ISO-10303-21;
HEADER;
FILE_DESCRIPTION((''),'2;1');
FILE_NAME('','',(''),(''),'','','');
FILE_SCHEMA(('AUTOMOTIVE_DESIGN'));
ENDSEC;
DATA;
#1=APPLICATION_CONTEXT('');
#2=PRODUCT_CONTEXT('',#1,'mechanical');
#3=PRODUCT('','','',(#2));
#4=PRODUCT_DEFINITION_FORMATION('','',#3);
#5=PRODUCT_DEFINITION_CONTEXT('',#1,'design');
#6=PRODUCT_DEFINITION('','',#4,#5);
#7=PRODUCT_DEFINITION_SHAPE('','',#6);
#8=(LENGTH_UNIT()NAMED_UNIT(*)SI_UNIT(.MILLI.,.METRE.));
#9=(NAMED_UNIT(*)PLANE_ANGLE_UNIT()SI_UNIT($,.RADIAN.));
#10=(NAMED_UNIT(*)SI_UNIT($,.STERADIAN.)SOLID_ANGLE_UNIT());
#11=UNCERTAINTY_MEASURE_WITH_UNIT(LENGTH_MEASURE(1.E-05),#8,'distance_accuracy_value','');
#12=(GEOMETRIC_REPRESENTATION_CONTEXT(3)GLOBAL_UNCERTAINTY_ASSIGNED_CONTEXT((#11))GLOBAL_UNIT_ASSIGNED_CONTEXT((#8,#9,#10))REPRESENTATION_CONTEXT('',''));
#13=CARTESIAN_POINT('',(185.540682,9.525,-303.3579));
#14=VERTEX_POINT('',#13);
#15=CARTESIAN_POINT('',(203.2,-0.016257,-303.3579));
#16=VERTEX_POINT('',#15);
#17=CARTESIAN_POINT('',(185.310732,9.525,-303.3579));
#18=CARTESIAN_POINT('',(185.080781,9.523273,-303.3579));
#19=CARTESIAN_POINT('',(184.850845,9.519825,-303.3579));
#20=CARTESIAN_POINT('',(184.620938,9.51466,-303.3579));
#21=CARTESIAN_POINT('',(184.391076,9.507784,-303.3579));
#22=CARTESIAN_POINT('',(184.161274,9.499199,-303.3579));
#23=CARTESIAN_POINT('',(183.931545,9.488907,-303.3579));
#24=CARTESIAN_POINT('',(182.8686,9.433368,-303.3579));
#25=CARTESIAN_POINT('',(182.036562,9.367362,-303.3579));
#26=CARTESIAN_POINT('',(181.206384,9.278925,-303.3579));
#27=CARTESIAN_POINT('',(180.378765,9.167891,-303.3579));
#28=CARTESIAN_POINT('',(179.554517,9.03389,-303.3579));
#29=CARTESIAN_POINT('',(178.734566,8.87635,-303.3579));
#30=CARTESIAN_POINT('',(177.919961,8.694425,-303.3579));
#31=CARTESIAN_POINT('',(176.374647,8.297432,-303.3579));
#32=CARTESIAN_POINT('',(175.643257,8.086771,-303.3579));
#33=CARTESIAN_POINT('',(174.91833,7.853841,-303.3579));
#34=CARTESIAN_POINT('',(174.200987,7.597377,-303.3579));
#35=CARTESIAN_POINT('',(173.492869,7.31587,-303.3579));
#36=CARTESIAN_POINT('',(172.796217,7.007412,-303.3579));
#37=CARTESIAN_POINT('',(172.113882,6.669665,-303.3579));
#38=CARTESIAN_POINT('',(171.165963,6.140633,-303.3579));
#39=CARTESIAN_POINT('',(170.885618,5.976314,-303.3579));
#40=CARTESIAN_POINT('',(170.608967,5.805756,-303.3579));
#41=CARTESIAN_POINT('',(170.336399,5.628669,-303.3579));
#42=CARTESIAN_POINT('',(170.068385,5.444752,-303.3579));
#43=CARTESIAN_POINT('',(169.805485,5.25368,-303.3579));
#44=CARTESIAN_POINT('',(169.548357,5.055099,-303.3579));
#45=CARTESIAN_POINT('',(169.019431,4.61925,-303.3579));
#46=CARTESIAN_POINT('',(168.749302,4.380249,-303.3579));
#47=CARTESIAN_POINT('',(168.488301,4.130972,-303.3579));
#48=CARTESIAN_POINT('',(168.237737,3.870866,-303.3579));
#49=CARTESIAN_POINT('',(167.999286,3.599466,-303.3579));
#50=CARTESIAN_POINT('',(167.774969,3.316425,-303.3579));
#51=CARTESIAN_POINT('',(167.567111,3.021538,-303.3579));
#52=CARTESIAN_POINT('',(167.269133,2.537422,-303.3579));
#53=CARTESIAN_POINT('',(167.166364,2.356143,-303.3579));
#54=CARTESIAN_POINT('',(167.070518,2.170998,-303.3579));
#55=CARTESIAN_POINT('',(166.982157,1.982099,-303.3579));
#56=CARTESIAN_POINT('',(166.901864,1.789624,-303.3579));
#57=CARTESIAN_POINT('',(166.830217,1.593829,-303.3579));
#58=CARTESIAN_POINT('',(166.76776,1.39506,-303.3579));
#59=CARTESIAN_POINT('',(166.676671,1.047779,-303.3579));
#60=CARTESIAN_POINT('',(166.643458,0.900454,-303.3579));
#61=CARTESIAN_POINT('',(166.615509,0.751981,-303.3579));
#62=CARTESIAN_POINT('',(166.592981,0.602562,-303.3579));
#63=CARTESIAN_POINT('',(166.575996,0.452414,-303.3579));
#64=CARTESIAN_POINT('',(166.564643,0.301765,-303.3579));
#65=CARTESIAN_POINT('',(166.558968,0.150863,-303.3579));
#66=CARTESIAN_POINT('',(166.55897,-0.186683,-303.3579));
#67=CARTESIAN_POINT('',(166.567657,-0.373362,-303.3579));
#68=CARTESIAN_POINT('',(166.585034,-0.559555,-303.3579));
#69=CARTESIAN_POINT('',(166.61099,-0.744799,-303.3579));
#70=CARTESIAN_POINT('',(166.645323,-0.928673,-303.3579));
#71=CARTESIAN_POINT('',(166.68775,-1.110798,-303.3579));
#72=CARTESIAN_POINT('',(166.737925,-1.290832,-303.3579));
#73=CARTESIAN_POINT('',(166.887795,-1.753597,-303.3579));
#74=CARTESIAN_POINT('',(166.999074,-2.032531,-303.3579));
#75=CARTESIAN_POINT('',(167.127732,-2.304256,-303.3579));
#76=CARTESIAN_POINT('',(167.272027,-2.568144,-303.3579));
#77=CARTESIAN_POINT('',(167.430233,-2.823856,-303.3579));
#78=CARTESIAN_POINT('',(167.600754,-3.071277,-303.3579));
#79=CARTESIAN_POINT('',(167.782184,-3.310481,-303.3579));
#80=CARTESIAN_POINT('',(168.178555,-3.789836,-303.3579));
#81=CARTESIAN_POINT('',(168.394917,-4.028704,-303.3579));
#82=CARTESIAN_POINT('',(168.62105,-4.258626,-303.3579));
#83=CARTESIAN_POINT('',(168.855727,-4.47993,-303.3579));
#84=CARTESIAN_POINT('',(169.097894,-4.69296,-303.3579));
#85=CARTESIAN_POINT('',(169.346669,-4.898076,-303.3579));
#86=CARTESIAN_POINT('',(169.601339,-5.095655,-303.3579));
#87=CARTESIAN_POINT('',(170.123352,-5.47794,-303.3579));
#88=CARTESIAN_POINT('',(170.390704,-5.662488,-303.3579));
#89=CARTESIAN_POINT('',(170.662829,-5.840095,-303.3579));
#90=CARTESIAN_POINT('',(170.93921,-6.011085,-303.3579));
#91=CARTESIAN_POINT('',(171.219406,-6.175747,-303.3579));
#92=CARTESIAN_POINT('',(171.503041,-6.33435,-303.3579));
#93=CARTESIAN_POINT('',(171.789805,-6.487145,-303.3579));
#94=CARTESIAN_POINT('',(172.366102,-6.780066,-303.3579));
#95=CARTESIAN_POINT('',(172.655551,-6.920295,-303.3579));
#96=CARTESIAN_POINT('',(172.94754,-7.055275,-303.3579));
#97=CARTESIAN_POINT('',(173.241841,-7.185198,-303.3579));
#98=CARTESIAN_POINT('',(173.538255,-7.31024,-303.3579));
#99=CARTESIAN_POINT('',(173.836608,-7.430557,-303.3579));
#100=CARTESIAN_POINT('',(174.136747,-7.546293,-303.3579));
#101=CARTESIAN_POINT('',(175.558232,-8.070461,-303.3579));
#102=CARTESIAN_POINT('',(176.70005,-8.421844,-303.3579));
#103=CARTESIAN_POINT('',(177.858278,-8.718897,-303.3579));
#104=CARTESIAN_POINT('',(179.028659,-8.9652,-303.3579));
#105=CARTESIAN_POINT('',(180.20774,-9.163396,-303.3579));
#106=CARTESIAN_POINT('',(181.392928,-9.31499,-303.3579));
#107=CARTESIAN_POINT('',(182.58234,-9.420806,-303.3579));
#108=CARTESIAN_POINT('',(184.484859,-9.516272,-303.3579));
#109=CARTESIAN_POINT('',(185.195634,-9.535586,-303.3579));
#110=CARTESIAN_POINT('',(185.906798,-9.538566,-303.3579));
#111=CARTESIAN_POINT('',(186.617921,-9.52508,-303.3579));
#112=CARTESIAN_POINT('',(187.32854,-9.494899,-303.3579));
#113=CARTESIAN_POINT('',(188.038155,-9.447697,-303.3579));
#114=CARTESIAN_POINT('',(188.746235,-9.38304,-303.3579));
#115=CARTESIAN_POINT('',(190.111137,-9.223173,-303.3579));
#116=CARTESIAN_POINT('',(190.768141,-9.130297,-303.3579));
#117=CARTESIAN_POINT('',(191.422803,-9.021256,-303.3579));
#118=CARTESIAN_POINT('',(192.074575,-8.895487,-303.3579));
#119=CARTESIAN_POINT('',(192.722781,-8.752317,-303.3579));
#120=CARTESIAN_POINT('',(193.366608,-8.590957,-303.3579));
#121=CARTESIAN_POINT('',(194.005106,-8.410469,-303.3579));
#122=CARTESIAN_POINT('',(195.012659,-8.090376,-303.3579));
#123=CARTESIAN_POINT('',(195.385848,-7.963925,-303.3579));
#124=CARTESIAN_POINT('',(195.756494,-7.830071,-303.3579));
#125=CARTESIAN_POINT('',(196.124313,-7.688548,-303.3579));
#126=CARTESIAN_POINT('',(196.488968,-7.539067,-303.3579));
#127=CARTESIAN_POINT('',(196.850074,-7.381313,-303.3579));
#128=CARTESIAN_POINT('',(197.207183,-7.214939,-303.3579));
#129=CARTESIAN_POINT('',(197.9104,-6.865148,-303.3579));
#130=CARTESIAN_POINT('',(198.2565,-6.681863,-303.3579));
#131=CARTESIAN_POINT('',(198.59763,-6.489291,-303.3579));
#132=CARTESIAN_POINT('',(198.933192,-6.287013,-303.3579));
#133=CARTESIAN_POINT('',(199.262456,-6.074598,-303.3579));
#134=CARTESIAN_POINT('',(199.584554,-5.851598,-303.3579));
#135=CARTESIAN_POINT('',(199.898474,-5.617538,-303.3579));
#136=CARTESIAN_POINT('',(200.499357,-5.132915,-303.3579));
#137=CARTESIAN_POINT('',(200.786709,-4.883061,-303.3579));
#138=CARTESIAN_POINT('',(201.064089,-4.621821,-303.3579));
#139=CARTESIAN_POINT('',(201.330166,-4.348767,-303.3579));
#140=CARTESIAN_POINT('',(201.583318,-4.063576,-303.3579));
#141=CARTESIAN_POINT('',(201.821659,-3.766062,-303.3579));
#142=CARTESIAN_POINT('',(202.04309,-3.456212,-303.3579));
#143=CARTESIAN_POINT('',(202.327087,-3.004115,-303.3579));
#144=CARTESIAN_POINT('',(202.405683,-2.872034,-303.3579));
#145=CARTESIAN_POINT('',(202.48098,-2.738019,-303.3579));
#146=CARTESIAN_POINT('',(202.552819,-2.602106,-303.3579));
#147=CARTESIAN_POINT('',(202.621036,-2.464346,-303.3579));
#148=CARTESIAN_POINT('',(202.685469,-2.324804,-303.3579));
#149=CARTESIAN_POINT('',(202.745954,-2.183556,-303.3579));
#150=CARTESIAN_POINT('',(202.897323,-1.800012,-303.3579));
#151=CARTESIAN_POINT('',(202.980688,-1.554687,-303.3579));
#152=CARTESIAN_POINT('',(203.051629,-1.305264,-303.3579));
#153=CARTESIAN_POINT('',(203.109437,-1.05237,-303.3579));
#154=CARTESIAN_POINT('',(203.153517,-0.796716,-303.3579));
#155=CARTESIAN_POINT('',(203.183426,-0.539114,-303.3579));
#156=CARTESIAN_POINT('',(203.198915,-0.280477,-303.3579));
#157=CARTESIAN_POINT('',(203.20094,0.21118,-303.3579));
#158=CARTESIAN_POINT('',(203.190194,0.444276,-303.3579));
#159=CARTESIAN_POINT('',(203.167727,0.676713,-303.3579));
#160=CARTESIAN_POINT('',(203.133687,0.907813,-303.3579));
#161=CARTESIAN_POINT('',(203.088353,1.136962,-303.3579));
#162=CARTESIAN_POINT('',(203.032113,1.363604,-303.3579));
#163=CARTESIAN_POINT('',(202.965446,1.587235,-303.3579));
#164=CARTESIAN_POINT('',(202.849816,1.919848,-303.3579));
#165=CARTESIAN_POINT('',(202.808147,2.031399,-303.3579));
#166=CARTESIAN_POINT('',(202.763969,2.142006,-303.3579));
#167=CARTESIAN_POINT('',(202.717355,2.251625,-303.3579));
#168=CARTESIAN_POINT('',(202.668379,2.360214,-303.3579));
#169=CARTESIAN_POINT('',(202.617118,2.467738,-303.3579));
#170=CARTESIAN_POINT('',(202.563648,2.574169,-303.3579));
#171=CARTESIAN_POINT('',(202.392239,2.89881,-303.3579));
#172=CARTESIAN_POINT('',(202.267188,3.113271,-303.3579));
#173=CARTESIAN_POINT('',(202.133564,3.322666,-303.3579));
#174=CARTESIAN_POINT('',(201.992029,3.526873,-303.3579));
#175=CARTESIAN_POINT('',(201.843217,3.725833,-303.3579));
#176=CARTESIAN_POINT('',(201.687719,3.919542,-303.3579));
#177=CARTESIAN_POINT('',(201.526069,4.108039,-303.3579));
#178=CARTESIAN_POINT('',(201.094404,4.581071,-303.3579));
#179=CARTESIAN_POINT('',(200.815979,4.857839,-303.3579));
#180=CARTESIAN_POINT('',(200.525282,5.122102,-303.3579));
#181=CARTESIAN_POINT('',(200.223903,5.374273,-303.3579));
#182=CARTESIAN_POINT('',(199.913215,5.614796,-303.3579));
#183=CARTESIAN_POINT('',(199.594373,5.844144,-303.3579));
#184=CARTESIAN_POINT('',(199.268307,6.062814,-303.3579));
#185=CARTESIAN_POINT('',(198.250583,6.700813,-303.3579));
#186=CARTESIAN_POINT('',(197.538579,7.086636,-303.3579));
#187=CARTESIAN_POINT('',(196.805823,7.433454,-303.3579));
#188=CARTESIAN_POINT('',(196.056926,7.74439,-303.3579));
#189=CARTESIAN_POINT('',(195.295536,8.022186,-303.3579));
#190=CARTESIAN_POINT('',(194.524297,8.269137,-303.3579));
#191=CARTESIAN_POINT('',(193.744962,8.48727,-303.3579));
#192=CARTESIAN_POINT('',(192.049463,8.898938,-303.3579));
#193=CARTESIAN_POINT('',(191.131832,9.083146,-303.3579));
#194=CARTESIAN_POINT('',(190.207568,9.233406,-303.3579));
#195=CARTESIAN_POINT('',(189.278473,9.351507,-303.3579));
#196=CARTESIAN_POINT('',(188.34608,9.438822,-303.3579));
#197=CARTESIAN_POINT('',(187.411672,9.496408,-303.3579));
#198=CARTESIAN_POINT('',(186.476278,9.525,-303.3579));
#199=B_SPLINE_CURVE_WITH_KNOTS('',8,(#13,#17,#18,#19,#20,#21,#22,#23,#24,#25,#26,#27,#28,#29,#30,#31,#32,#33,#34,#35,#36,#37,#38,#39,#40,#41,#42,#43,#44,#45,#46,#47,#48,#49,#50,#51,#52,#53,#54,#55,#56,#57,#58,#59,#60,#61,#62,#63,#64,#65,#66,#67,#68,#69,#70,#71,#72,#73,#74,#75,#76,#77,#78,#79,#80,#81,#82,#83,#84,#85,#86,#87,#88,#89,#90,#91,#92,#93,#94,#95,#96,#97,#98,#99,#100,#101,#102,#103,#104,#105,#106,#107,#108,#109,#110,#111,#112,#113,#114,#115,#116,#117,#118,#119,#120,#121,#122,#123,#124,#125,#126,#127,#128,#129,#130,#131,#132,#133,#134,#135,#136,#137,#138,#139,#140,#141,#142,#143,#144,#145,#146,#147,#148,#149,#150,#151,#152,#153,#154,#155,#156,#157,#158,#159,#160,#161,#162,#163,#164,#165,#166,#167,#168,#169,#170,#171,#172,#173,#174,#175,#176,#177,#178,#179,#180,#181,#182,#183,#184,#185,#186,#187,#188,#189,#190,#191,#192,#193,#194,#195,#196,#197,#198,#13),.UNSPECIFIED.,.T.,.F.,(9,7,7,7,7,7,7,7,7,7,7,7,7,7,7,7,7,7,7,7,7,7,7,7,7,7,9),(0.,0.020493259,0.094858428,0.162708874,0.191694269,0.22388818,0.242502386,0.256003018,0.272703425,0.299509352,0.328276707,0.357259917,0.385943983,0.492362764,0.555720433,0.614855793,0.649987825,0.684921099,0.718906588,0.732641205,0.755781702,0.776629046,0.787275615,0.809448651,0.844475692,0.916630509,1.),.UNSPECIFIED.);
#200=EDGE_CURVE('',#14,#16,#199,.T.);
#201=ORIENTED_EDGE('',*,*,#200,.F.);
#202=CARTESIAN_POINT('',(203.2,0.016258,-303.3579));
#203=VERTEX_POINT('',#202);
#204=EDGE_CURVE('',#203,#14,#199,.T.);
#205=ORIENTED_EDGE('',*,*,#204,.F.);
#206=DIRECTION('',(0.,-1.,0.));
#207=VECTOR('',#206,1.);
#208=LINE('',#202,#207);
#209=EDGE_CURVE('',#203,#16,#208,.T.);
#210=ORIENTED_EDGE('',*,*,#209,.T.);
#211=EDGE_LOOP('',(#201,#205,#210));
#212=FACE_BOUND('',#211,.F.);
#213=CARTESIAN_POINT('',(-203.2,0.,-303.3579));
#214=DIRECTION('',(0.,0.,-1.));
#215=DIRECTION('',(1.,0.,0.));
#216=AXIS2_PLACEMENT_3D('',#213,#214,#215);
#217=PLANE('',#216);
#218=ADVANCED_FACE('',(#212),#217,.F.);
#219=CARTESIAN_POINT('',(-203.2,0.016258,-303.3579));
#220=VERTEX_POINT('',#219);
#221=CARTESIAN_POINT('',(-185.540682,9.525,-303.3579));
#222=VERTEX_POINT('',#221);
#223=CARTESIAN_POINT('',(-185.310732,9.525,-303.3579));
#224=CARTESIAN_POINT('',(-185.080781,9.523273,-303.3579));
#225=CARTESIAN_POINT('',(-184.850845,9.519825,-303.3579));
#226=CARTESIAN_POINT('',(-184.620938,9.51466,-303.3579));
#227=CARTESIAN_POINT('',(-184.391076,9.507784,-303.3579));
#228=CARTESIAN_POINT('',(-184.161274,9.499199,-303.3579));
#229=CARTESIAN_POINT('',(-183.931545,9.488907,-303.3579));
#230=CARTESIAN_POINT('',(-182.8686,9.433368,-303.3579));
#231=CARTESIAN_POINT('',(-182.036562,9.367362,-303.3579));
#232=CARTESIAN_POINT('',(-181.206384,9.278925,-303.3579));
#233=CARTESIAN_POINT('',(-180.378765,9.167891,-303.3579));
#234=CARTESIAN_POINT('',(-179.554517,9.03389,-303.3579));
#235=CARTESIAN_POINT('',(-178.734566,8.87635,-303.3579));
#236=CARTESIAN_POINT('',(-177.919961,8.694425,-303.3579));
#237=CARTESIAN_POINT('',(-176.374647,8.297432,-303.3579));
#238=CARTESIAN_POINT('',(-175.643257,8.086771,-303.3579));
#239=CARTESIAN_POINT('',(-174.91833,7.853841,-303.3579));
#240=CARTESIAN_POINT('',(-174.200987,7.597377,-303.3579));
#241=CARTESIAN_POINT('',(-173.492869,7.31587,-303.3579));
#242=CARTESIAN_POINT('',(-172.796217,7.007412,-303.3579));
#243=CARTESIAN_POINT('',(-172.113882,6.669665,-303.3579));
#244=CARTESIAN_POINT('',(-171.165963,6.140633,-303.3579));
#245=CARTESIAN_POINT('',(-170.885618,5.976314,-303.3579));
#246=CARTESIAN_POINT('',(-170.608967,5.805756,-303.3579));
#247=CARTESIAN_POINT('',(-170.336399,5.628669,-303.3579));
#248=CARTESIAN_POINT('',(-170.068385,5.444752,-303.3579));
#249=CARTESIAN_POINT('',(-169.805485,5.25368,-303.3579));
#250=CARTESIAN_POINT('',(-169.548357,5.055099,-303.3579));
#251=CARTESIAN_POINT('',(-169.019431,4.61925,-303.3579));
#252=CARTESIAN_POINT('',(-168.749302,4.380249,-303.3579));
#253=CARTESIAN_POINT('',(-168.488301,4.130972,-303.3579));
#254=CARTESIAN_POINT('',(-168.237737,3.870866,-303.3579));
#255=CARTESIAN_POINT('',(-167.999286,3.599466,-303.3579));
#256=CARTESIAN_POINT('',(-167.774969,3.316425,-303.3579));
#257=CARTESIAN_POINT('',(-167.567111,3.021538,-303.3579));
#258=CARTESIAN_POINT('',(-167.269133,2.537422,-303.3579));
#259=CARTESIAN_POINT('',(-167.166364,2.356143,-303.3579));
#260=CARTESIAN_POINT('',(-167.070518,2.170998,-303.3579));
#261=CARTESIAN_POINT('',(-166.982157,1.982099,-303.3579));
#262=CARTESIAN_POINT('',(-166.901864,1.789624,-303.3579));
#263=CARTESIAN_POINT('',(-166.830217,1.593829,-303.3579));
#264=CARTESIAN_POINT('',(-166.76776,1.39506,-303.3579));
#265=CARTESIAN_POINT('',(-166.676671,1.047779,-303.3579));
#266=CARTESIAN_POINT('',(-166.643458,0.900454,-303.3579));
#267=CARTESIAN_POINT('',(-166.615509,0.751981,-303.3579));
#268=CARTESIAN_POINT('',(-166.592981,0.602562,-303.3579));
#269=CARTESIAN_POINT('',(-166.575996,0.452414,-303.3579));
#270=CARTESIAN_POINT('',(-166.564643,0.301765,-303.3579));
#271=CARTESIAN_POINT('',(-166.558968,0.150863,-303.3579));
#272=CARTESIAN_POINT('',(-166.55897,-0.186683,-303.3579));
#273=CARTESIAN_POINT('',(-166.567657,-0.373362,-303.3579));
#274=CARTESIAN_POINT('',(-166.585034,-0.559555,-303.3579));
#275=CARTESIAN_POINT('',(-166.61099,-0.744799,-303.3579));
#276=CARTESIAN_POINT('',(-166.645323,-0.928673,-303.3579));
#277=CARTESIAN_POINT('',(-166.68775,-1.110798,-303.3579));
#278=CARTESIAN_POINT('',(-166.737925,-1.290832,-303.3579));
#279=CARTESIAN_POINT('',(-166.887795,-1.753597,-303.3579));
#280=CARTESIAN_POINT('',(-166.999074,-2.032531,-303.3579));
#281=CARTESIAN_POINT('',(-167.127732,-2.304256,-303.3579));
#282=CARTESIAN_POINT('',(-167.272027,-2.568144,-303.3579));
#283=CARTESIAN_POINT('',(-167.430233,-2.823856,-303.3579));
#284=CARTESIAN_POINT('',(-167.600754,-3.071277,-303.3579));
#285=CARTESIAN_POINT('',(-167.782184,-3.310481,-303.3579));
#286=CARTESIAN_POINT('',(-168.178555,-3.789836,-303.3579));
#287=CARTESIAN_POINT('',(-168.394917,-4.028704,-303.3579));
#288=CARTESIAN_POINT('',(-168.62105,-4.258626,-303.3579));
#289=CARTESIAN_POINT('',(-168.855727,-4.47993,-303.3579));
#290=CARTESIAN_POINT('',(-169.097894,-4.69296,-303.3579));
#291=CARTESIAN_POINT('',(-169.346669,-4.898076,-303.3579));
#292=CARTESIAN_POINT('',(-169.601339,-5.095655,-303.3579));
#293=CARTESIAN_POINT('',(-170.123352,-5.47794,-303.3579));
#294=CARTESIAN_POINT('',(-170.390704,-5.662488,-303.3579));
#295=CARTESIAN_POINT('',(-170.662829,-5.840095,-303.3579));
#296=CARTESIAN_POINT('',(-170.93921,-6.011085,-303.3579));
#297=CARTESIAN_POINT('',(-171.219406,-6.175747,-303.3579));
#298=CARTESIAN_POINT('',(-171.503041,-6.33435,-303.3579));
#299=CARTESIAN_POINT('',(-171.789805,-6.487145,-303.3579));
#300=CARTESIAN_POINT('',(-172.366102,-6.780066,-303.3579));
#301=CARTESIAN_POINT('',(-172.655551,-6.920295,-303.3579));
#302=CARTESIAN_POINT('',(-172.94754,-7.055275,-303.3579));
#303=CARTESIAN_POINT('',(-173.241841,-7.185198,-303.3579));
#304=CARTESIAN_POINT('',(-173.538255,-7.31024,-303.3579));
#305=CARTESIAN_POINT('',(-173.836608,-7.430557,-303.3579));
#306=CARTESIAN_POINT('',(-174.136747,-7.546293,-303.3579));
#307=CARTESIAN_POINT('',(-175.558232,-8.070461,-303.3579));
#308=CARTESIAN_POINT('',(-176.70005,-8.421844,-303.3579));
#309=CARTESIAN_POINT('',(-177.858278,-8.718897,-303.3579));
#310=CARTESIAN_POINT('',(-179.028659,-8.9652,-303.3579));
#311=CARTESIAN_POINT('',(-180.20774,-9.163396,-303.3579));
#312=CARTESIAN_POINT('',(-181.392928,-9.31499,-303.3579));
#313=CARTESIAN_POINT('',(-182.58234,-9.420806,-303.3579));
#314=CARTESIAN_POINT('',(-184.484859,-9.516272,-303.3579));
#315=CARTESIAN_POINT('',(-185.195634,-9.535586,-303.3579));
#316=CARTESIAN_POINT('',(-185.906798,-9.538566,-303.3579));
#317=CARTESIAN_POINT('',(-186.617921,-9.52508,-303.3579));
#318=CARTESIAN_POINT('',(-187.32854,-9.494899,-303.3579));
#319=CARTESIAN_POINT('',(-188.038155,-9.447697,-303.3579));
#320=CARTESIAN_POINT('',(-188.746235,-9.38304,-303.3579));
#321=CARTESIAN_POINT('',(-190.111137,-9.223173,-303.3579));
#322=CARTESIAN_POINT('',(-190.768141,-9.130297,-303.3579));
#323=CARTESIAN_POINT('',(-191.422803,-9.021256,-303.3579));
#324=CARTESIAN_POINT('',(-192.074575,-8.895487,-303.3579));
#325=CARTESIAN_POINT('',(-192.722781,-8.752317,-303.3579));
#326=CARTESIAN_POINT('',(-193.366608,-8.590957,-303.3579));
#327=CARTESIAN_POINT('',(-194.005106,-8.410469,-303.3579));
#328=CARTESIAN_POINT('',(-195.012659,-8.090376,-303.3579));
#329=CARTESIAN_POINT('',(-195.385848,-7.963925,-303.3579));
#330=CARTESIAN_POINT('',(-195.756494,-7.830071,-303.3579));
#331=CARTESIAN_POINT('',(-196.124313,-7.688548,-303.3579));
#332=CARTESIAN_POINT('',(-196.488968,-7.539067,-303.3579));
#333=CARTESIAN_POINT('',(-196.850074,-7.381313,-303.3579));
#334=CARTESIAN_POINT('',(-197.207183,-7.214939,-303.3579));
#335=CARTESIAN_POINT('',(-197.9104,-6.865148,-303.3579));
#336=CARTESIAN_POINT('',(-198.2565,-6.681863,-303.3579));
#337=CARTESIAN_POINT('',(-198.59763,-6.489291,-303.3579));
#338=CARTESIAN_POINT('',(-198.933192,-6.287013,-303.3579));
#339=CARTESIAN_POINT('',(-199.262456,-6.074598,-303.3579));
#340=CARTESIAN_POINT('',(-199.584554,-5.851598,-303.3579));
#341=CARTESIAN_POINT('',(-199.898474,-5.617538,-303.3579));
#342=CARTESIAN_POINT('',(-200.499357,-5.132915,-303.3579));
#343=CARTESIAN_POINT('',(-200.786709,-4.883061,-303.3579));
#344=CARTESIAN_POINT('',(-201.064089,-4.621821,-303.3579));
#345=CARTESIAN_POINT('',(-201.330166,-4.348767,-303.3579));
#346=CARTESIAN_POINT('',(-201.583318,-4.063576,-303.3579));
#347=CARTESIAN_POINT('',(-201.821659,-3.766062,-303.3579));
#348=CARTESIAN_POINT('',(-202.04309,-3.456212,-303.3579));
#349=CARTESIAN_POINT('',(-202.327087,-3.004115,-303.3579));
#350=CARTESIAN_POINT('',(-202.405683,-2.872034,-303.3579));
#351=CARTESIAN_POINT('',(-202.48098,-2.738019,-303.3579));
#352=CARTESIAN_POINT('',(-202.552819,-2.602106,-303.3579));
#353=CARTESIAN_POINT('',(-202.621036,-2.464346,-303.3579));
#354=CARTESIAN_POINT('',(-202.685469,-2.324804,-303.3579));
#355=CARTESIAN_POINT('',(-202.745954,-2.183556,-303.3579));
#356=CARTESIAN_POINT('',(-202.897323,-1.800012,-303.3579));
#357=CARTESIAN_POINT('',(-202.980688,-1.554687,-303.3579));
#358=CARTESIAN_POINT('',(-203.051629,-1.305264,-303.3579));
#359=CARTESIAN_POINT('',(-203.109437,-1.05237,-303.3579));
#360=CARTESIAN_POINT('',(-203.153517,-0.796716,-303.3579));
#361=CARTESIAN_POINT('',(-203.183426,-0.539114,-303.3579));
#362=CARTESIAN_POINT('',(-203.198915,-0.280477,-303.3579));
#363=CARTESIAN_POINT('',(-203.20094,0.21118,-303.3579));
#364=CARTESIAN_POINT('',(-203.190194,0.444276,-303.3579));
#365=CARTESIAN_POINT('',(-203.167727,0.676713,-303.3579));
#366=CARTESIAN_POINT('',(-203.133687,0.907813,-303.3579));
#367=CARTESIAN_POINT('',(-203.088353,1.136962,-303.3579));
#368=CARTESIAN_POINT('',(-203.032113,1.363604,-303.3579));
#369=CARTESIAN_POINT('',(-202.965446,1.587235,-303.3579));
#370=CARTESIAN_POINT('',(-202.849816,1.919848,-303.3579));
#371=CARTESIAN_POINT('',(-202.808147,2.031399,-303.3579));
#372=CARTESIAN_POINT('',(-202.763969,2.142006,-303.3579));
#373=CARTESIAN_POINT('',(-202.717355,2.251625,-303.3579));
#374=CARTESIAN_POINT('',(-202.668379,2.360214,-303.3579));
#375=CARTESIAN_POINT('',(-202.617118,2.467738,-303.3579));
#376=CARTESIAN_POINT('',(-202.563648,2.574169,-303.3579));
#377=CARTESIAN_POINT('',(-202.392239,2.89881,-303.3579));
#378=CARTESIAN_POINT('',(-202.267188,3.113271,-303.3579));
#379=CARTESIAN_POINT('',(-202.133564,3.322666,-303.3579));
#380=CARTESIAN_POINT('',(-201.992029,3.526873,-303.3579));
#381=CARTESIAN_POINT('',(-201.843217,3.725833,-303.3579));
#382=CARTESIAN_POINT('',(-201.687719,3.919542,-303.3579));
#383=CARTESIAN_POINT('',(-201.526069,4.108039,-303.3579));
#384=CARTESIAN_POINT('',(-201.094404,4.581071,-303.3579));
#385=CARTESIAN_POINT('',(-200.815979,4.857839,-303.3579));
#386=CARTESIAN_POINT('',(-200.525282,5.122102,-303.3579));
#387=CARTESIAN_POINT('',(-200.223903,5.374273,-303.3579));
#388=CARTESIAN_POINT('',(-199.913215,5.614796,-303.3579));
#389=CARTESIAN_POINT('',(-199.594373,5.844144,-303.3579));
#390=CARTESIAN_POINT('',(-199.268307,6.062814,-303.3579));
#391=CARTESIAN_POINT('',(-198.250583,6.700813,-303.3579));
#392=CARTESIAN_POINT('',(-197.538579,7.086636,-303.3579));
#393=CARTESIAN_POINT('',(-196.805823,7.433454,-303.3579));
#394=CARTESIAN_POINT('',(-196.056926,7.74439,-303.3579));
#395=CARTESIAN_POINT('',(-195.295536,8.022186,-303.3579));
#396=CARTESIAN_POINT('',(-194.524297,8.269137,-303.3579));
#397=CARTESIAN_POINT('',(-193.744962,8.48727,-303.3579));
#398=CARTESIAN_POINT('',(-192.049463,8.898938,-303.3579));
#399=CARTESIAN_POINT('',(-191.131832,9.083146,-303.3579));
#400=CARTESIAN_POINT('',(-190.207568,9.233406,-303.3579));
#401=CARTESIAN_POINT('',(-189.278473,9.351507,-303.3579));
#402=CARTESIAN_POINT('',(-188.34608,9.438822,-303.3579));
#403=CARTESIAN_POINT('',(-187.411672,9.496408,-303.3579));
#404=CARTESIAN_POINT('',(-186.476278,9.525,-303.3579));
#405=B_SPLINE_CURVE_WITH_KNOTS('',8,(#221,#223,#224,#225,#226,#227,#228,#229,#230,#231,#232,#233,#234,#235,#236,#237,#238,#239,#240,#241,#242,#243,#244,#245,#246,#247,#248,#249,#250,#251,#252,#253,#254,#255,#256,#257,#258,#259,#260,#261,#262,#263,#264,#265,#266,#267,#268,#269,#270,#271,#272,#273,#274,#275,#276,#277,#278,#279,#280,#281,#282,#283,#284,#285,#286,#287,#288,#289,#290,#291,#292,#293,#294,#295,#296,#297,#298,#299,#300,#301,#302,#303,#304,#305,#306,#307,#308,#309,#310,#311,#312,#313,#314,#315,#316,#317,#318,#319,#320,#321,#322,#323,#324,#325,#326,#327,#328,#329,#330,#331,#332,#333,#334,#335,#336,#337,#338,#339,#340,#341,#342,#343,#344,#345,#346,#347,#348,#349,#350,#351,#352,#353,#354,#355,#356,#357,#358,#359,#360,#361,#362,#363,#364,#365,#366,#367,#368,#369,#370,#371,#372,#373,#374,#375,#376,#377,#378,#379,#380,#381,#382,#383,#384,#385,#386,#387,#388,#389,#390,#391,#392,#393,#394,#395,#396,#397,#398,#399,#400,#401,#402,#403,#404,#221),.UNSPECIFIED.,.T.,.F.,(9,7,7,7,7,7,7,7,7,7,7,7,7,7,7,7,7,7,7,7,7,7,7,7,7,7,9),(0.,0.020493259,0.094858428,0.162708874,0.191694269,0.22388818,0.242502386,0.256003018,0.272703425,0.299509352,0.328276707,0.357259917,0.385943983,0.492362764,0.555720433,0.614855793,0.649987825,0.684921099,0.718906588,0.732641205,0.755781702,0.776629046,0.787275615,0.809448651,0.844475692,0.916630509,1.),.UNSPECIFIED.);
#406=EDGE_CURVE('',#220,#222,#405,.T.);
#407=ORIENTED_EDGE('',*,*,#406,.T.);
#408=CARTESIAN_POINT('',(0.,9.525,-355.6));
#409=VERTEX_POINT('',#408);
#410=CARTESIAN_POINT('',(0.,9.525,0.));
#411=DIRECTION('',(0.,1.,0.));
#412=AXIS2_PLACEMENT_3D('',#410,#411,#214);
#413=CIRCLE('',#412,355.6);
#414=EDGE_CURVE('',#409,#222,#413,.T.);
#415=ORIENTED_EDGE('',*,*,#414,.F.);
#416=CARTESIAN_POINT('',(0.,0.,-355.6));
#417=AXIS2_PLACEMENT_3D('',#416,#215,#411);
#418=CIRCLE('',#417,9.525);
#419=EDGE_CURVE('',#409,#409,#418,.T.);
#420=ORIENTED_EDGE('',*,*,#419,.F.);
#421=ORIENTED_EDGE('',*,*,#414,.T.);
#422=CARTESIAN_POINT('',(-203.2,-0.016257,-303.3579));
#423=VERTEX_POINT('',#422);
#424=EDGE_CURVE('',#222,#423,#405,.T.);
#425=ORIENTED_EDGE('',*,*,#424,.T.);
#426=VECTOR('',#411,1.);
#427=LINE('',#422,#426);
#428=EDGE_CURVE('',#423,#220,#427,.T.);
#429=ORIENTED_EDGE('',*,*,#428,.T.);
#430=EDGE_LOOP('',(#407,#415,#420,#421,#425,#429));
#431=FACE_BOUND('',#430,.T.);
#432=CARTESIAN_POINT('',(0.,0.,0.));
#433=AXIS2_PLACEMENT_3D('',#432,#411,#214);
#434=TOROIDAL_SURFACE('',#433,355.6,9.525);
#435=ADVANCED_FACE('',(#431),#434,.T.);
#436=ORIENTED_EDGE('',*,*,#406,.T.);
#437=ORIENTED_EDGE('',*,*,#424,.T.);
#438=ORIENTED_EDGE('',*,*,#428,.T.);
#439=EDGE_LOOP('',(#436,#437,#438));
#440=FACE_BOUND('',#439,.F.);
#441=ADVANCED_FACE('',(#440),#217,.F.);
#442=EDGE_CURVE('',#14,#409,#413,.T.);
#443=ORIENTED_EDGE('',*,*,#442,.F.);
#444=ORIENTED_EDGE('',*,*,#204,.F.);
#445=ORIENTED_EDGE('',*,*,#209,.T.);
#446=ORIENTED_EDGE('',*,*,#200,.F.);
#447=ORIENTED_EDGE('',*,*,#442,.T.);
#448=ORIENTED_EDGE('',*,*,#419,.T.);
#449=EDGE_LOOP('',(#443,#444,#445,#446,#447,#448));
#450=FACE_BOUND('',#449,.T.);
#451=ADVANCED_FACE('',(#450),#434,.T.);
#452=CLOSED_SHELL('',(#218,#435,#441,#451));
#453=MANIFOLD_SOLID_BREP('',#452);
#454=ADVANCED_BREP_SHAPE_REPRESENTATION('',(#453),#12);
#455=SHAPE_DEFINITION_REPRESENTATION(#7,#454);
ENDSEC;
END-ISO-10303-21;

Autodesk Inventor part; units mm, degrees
ref_plane "YZ Plane" through (0, 0, 0) normal (1, 0, 0) x (0, 1, 0)
ref_plane "XZ Plane" through (0, 0, 0) normal (0, 1, 0) x (-1, 0, 0)
ref_plane "XY Plane" through (0, 0, 0) normal (0, 0, 1) x (1, 0, 0)
sketch "Sketch1" plane through (0, 0, 0) normal (1, 0, 0) x (0, 1, 0)
  circle A0 centre (0, -355.6) radius 9.525
  line L0 (-13.335, 0) -> (13.335, 0) projected
  point P0 (0, 0)
  dimension "d0" = 19.05
  dimension "d1" = 355.6
revolve "Revolution1" add sketch "Sketch1" angle 360 about axis through (0, -10, 0) along (0, 1, 0)
sketch "Sketch2" plane through (0, 0, 0) normal (0, 1, 0) x (-1, 0, 0)
  circle A0 centre (0, 0) radius 365.125 projected
  line L0 (203.2, -303.3579) -> (-203.2, -303.3579)
  dimension "d3" = 406.4
extrude "Extrusion1" cut sketch "Sketch2" along normal mid plane 25.4 contours A0 L0 picked at (3.0391, -80.5682)
properties part number "Hula Hoop-1"
